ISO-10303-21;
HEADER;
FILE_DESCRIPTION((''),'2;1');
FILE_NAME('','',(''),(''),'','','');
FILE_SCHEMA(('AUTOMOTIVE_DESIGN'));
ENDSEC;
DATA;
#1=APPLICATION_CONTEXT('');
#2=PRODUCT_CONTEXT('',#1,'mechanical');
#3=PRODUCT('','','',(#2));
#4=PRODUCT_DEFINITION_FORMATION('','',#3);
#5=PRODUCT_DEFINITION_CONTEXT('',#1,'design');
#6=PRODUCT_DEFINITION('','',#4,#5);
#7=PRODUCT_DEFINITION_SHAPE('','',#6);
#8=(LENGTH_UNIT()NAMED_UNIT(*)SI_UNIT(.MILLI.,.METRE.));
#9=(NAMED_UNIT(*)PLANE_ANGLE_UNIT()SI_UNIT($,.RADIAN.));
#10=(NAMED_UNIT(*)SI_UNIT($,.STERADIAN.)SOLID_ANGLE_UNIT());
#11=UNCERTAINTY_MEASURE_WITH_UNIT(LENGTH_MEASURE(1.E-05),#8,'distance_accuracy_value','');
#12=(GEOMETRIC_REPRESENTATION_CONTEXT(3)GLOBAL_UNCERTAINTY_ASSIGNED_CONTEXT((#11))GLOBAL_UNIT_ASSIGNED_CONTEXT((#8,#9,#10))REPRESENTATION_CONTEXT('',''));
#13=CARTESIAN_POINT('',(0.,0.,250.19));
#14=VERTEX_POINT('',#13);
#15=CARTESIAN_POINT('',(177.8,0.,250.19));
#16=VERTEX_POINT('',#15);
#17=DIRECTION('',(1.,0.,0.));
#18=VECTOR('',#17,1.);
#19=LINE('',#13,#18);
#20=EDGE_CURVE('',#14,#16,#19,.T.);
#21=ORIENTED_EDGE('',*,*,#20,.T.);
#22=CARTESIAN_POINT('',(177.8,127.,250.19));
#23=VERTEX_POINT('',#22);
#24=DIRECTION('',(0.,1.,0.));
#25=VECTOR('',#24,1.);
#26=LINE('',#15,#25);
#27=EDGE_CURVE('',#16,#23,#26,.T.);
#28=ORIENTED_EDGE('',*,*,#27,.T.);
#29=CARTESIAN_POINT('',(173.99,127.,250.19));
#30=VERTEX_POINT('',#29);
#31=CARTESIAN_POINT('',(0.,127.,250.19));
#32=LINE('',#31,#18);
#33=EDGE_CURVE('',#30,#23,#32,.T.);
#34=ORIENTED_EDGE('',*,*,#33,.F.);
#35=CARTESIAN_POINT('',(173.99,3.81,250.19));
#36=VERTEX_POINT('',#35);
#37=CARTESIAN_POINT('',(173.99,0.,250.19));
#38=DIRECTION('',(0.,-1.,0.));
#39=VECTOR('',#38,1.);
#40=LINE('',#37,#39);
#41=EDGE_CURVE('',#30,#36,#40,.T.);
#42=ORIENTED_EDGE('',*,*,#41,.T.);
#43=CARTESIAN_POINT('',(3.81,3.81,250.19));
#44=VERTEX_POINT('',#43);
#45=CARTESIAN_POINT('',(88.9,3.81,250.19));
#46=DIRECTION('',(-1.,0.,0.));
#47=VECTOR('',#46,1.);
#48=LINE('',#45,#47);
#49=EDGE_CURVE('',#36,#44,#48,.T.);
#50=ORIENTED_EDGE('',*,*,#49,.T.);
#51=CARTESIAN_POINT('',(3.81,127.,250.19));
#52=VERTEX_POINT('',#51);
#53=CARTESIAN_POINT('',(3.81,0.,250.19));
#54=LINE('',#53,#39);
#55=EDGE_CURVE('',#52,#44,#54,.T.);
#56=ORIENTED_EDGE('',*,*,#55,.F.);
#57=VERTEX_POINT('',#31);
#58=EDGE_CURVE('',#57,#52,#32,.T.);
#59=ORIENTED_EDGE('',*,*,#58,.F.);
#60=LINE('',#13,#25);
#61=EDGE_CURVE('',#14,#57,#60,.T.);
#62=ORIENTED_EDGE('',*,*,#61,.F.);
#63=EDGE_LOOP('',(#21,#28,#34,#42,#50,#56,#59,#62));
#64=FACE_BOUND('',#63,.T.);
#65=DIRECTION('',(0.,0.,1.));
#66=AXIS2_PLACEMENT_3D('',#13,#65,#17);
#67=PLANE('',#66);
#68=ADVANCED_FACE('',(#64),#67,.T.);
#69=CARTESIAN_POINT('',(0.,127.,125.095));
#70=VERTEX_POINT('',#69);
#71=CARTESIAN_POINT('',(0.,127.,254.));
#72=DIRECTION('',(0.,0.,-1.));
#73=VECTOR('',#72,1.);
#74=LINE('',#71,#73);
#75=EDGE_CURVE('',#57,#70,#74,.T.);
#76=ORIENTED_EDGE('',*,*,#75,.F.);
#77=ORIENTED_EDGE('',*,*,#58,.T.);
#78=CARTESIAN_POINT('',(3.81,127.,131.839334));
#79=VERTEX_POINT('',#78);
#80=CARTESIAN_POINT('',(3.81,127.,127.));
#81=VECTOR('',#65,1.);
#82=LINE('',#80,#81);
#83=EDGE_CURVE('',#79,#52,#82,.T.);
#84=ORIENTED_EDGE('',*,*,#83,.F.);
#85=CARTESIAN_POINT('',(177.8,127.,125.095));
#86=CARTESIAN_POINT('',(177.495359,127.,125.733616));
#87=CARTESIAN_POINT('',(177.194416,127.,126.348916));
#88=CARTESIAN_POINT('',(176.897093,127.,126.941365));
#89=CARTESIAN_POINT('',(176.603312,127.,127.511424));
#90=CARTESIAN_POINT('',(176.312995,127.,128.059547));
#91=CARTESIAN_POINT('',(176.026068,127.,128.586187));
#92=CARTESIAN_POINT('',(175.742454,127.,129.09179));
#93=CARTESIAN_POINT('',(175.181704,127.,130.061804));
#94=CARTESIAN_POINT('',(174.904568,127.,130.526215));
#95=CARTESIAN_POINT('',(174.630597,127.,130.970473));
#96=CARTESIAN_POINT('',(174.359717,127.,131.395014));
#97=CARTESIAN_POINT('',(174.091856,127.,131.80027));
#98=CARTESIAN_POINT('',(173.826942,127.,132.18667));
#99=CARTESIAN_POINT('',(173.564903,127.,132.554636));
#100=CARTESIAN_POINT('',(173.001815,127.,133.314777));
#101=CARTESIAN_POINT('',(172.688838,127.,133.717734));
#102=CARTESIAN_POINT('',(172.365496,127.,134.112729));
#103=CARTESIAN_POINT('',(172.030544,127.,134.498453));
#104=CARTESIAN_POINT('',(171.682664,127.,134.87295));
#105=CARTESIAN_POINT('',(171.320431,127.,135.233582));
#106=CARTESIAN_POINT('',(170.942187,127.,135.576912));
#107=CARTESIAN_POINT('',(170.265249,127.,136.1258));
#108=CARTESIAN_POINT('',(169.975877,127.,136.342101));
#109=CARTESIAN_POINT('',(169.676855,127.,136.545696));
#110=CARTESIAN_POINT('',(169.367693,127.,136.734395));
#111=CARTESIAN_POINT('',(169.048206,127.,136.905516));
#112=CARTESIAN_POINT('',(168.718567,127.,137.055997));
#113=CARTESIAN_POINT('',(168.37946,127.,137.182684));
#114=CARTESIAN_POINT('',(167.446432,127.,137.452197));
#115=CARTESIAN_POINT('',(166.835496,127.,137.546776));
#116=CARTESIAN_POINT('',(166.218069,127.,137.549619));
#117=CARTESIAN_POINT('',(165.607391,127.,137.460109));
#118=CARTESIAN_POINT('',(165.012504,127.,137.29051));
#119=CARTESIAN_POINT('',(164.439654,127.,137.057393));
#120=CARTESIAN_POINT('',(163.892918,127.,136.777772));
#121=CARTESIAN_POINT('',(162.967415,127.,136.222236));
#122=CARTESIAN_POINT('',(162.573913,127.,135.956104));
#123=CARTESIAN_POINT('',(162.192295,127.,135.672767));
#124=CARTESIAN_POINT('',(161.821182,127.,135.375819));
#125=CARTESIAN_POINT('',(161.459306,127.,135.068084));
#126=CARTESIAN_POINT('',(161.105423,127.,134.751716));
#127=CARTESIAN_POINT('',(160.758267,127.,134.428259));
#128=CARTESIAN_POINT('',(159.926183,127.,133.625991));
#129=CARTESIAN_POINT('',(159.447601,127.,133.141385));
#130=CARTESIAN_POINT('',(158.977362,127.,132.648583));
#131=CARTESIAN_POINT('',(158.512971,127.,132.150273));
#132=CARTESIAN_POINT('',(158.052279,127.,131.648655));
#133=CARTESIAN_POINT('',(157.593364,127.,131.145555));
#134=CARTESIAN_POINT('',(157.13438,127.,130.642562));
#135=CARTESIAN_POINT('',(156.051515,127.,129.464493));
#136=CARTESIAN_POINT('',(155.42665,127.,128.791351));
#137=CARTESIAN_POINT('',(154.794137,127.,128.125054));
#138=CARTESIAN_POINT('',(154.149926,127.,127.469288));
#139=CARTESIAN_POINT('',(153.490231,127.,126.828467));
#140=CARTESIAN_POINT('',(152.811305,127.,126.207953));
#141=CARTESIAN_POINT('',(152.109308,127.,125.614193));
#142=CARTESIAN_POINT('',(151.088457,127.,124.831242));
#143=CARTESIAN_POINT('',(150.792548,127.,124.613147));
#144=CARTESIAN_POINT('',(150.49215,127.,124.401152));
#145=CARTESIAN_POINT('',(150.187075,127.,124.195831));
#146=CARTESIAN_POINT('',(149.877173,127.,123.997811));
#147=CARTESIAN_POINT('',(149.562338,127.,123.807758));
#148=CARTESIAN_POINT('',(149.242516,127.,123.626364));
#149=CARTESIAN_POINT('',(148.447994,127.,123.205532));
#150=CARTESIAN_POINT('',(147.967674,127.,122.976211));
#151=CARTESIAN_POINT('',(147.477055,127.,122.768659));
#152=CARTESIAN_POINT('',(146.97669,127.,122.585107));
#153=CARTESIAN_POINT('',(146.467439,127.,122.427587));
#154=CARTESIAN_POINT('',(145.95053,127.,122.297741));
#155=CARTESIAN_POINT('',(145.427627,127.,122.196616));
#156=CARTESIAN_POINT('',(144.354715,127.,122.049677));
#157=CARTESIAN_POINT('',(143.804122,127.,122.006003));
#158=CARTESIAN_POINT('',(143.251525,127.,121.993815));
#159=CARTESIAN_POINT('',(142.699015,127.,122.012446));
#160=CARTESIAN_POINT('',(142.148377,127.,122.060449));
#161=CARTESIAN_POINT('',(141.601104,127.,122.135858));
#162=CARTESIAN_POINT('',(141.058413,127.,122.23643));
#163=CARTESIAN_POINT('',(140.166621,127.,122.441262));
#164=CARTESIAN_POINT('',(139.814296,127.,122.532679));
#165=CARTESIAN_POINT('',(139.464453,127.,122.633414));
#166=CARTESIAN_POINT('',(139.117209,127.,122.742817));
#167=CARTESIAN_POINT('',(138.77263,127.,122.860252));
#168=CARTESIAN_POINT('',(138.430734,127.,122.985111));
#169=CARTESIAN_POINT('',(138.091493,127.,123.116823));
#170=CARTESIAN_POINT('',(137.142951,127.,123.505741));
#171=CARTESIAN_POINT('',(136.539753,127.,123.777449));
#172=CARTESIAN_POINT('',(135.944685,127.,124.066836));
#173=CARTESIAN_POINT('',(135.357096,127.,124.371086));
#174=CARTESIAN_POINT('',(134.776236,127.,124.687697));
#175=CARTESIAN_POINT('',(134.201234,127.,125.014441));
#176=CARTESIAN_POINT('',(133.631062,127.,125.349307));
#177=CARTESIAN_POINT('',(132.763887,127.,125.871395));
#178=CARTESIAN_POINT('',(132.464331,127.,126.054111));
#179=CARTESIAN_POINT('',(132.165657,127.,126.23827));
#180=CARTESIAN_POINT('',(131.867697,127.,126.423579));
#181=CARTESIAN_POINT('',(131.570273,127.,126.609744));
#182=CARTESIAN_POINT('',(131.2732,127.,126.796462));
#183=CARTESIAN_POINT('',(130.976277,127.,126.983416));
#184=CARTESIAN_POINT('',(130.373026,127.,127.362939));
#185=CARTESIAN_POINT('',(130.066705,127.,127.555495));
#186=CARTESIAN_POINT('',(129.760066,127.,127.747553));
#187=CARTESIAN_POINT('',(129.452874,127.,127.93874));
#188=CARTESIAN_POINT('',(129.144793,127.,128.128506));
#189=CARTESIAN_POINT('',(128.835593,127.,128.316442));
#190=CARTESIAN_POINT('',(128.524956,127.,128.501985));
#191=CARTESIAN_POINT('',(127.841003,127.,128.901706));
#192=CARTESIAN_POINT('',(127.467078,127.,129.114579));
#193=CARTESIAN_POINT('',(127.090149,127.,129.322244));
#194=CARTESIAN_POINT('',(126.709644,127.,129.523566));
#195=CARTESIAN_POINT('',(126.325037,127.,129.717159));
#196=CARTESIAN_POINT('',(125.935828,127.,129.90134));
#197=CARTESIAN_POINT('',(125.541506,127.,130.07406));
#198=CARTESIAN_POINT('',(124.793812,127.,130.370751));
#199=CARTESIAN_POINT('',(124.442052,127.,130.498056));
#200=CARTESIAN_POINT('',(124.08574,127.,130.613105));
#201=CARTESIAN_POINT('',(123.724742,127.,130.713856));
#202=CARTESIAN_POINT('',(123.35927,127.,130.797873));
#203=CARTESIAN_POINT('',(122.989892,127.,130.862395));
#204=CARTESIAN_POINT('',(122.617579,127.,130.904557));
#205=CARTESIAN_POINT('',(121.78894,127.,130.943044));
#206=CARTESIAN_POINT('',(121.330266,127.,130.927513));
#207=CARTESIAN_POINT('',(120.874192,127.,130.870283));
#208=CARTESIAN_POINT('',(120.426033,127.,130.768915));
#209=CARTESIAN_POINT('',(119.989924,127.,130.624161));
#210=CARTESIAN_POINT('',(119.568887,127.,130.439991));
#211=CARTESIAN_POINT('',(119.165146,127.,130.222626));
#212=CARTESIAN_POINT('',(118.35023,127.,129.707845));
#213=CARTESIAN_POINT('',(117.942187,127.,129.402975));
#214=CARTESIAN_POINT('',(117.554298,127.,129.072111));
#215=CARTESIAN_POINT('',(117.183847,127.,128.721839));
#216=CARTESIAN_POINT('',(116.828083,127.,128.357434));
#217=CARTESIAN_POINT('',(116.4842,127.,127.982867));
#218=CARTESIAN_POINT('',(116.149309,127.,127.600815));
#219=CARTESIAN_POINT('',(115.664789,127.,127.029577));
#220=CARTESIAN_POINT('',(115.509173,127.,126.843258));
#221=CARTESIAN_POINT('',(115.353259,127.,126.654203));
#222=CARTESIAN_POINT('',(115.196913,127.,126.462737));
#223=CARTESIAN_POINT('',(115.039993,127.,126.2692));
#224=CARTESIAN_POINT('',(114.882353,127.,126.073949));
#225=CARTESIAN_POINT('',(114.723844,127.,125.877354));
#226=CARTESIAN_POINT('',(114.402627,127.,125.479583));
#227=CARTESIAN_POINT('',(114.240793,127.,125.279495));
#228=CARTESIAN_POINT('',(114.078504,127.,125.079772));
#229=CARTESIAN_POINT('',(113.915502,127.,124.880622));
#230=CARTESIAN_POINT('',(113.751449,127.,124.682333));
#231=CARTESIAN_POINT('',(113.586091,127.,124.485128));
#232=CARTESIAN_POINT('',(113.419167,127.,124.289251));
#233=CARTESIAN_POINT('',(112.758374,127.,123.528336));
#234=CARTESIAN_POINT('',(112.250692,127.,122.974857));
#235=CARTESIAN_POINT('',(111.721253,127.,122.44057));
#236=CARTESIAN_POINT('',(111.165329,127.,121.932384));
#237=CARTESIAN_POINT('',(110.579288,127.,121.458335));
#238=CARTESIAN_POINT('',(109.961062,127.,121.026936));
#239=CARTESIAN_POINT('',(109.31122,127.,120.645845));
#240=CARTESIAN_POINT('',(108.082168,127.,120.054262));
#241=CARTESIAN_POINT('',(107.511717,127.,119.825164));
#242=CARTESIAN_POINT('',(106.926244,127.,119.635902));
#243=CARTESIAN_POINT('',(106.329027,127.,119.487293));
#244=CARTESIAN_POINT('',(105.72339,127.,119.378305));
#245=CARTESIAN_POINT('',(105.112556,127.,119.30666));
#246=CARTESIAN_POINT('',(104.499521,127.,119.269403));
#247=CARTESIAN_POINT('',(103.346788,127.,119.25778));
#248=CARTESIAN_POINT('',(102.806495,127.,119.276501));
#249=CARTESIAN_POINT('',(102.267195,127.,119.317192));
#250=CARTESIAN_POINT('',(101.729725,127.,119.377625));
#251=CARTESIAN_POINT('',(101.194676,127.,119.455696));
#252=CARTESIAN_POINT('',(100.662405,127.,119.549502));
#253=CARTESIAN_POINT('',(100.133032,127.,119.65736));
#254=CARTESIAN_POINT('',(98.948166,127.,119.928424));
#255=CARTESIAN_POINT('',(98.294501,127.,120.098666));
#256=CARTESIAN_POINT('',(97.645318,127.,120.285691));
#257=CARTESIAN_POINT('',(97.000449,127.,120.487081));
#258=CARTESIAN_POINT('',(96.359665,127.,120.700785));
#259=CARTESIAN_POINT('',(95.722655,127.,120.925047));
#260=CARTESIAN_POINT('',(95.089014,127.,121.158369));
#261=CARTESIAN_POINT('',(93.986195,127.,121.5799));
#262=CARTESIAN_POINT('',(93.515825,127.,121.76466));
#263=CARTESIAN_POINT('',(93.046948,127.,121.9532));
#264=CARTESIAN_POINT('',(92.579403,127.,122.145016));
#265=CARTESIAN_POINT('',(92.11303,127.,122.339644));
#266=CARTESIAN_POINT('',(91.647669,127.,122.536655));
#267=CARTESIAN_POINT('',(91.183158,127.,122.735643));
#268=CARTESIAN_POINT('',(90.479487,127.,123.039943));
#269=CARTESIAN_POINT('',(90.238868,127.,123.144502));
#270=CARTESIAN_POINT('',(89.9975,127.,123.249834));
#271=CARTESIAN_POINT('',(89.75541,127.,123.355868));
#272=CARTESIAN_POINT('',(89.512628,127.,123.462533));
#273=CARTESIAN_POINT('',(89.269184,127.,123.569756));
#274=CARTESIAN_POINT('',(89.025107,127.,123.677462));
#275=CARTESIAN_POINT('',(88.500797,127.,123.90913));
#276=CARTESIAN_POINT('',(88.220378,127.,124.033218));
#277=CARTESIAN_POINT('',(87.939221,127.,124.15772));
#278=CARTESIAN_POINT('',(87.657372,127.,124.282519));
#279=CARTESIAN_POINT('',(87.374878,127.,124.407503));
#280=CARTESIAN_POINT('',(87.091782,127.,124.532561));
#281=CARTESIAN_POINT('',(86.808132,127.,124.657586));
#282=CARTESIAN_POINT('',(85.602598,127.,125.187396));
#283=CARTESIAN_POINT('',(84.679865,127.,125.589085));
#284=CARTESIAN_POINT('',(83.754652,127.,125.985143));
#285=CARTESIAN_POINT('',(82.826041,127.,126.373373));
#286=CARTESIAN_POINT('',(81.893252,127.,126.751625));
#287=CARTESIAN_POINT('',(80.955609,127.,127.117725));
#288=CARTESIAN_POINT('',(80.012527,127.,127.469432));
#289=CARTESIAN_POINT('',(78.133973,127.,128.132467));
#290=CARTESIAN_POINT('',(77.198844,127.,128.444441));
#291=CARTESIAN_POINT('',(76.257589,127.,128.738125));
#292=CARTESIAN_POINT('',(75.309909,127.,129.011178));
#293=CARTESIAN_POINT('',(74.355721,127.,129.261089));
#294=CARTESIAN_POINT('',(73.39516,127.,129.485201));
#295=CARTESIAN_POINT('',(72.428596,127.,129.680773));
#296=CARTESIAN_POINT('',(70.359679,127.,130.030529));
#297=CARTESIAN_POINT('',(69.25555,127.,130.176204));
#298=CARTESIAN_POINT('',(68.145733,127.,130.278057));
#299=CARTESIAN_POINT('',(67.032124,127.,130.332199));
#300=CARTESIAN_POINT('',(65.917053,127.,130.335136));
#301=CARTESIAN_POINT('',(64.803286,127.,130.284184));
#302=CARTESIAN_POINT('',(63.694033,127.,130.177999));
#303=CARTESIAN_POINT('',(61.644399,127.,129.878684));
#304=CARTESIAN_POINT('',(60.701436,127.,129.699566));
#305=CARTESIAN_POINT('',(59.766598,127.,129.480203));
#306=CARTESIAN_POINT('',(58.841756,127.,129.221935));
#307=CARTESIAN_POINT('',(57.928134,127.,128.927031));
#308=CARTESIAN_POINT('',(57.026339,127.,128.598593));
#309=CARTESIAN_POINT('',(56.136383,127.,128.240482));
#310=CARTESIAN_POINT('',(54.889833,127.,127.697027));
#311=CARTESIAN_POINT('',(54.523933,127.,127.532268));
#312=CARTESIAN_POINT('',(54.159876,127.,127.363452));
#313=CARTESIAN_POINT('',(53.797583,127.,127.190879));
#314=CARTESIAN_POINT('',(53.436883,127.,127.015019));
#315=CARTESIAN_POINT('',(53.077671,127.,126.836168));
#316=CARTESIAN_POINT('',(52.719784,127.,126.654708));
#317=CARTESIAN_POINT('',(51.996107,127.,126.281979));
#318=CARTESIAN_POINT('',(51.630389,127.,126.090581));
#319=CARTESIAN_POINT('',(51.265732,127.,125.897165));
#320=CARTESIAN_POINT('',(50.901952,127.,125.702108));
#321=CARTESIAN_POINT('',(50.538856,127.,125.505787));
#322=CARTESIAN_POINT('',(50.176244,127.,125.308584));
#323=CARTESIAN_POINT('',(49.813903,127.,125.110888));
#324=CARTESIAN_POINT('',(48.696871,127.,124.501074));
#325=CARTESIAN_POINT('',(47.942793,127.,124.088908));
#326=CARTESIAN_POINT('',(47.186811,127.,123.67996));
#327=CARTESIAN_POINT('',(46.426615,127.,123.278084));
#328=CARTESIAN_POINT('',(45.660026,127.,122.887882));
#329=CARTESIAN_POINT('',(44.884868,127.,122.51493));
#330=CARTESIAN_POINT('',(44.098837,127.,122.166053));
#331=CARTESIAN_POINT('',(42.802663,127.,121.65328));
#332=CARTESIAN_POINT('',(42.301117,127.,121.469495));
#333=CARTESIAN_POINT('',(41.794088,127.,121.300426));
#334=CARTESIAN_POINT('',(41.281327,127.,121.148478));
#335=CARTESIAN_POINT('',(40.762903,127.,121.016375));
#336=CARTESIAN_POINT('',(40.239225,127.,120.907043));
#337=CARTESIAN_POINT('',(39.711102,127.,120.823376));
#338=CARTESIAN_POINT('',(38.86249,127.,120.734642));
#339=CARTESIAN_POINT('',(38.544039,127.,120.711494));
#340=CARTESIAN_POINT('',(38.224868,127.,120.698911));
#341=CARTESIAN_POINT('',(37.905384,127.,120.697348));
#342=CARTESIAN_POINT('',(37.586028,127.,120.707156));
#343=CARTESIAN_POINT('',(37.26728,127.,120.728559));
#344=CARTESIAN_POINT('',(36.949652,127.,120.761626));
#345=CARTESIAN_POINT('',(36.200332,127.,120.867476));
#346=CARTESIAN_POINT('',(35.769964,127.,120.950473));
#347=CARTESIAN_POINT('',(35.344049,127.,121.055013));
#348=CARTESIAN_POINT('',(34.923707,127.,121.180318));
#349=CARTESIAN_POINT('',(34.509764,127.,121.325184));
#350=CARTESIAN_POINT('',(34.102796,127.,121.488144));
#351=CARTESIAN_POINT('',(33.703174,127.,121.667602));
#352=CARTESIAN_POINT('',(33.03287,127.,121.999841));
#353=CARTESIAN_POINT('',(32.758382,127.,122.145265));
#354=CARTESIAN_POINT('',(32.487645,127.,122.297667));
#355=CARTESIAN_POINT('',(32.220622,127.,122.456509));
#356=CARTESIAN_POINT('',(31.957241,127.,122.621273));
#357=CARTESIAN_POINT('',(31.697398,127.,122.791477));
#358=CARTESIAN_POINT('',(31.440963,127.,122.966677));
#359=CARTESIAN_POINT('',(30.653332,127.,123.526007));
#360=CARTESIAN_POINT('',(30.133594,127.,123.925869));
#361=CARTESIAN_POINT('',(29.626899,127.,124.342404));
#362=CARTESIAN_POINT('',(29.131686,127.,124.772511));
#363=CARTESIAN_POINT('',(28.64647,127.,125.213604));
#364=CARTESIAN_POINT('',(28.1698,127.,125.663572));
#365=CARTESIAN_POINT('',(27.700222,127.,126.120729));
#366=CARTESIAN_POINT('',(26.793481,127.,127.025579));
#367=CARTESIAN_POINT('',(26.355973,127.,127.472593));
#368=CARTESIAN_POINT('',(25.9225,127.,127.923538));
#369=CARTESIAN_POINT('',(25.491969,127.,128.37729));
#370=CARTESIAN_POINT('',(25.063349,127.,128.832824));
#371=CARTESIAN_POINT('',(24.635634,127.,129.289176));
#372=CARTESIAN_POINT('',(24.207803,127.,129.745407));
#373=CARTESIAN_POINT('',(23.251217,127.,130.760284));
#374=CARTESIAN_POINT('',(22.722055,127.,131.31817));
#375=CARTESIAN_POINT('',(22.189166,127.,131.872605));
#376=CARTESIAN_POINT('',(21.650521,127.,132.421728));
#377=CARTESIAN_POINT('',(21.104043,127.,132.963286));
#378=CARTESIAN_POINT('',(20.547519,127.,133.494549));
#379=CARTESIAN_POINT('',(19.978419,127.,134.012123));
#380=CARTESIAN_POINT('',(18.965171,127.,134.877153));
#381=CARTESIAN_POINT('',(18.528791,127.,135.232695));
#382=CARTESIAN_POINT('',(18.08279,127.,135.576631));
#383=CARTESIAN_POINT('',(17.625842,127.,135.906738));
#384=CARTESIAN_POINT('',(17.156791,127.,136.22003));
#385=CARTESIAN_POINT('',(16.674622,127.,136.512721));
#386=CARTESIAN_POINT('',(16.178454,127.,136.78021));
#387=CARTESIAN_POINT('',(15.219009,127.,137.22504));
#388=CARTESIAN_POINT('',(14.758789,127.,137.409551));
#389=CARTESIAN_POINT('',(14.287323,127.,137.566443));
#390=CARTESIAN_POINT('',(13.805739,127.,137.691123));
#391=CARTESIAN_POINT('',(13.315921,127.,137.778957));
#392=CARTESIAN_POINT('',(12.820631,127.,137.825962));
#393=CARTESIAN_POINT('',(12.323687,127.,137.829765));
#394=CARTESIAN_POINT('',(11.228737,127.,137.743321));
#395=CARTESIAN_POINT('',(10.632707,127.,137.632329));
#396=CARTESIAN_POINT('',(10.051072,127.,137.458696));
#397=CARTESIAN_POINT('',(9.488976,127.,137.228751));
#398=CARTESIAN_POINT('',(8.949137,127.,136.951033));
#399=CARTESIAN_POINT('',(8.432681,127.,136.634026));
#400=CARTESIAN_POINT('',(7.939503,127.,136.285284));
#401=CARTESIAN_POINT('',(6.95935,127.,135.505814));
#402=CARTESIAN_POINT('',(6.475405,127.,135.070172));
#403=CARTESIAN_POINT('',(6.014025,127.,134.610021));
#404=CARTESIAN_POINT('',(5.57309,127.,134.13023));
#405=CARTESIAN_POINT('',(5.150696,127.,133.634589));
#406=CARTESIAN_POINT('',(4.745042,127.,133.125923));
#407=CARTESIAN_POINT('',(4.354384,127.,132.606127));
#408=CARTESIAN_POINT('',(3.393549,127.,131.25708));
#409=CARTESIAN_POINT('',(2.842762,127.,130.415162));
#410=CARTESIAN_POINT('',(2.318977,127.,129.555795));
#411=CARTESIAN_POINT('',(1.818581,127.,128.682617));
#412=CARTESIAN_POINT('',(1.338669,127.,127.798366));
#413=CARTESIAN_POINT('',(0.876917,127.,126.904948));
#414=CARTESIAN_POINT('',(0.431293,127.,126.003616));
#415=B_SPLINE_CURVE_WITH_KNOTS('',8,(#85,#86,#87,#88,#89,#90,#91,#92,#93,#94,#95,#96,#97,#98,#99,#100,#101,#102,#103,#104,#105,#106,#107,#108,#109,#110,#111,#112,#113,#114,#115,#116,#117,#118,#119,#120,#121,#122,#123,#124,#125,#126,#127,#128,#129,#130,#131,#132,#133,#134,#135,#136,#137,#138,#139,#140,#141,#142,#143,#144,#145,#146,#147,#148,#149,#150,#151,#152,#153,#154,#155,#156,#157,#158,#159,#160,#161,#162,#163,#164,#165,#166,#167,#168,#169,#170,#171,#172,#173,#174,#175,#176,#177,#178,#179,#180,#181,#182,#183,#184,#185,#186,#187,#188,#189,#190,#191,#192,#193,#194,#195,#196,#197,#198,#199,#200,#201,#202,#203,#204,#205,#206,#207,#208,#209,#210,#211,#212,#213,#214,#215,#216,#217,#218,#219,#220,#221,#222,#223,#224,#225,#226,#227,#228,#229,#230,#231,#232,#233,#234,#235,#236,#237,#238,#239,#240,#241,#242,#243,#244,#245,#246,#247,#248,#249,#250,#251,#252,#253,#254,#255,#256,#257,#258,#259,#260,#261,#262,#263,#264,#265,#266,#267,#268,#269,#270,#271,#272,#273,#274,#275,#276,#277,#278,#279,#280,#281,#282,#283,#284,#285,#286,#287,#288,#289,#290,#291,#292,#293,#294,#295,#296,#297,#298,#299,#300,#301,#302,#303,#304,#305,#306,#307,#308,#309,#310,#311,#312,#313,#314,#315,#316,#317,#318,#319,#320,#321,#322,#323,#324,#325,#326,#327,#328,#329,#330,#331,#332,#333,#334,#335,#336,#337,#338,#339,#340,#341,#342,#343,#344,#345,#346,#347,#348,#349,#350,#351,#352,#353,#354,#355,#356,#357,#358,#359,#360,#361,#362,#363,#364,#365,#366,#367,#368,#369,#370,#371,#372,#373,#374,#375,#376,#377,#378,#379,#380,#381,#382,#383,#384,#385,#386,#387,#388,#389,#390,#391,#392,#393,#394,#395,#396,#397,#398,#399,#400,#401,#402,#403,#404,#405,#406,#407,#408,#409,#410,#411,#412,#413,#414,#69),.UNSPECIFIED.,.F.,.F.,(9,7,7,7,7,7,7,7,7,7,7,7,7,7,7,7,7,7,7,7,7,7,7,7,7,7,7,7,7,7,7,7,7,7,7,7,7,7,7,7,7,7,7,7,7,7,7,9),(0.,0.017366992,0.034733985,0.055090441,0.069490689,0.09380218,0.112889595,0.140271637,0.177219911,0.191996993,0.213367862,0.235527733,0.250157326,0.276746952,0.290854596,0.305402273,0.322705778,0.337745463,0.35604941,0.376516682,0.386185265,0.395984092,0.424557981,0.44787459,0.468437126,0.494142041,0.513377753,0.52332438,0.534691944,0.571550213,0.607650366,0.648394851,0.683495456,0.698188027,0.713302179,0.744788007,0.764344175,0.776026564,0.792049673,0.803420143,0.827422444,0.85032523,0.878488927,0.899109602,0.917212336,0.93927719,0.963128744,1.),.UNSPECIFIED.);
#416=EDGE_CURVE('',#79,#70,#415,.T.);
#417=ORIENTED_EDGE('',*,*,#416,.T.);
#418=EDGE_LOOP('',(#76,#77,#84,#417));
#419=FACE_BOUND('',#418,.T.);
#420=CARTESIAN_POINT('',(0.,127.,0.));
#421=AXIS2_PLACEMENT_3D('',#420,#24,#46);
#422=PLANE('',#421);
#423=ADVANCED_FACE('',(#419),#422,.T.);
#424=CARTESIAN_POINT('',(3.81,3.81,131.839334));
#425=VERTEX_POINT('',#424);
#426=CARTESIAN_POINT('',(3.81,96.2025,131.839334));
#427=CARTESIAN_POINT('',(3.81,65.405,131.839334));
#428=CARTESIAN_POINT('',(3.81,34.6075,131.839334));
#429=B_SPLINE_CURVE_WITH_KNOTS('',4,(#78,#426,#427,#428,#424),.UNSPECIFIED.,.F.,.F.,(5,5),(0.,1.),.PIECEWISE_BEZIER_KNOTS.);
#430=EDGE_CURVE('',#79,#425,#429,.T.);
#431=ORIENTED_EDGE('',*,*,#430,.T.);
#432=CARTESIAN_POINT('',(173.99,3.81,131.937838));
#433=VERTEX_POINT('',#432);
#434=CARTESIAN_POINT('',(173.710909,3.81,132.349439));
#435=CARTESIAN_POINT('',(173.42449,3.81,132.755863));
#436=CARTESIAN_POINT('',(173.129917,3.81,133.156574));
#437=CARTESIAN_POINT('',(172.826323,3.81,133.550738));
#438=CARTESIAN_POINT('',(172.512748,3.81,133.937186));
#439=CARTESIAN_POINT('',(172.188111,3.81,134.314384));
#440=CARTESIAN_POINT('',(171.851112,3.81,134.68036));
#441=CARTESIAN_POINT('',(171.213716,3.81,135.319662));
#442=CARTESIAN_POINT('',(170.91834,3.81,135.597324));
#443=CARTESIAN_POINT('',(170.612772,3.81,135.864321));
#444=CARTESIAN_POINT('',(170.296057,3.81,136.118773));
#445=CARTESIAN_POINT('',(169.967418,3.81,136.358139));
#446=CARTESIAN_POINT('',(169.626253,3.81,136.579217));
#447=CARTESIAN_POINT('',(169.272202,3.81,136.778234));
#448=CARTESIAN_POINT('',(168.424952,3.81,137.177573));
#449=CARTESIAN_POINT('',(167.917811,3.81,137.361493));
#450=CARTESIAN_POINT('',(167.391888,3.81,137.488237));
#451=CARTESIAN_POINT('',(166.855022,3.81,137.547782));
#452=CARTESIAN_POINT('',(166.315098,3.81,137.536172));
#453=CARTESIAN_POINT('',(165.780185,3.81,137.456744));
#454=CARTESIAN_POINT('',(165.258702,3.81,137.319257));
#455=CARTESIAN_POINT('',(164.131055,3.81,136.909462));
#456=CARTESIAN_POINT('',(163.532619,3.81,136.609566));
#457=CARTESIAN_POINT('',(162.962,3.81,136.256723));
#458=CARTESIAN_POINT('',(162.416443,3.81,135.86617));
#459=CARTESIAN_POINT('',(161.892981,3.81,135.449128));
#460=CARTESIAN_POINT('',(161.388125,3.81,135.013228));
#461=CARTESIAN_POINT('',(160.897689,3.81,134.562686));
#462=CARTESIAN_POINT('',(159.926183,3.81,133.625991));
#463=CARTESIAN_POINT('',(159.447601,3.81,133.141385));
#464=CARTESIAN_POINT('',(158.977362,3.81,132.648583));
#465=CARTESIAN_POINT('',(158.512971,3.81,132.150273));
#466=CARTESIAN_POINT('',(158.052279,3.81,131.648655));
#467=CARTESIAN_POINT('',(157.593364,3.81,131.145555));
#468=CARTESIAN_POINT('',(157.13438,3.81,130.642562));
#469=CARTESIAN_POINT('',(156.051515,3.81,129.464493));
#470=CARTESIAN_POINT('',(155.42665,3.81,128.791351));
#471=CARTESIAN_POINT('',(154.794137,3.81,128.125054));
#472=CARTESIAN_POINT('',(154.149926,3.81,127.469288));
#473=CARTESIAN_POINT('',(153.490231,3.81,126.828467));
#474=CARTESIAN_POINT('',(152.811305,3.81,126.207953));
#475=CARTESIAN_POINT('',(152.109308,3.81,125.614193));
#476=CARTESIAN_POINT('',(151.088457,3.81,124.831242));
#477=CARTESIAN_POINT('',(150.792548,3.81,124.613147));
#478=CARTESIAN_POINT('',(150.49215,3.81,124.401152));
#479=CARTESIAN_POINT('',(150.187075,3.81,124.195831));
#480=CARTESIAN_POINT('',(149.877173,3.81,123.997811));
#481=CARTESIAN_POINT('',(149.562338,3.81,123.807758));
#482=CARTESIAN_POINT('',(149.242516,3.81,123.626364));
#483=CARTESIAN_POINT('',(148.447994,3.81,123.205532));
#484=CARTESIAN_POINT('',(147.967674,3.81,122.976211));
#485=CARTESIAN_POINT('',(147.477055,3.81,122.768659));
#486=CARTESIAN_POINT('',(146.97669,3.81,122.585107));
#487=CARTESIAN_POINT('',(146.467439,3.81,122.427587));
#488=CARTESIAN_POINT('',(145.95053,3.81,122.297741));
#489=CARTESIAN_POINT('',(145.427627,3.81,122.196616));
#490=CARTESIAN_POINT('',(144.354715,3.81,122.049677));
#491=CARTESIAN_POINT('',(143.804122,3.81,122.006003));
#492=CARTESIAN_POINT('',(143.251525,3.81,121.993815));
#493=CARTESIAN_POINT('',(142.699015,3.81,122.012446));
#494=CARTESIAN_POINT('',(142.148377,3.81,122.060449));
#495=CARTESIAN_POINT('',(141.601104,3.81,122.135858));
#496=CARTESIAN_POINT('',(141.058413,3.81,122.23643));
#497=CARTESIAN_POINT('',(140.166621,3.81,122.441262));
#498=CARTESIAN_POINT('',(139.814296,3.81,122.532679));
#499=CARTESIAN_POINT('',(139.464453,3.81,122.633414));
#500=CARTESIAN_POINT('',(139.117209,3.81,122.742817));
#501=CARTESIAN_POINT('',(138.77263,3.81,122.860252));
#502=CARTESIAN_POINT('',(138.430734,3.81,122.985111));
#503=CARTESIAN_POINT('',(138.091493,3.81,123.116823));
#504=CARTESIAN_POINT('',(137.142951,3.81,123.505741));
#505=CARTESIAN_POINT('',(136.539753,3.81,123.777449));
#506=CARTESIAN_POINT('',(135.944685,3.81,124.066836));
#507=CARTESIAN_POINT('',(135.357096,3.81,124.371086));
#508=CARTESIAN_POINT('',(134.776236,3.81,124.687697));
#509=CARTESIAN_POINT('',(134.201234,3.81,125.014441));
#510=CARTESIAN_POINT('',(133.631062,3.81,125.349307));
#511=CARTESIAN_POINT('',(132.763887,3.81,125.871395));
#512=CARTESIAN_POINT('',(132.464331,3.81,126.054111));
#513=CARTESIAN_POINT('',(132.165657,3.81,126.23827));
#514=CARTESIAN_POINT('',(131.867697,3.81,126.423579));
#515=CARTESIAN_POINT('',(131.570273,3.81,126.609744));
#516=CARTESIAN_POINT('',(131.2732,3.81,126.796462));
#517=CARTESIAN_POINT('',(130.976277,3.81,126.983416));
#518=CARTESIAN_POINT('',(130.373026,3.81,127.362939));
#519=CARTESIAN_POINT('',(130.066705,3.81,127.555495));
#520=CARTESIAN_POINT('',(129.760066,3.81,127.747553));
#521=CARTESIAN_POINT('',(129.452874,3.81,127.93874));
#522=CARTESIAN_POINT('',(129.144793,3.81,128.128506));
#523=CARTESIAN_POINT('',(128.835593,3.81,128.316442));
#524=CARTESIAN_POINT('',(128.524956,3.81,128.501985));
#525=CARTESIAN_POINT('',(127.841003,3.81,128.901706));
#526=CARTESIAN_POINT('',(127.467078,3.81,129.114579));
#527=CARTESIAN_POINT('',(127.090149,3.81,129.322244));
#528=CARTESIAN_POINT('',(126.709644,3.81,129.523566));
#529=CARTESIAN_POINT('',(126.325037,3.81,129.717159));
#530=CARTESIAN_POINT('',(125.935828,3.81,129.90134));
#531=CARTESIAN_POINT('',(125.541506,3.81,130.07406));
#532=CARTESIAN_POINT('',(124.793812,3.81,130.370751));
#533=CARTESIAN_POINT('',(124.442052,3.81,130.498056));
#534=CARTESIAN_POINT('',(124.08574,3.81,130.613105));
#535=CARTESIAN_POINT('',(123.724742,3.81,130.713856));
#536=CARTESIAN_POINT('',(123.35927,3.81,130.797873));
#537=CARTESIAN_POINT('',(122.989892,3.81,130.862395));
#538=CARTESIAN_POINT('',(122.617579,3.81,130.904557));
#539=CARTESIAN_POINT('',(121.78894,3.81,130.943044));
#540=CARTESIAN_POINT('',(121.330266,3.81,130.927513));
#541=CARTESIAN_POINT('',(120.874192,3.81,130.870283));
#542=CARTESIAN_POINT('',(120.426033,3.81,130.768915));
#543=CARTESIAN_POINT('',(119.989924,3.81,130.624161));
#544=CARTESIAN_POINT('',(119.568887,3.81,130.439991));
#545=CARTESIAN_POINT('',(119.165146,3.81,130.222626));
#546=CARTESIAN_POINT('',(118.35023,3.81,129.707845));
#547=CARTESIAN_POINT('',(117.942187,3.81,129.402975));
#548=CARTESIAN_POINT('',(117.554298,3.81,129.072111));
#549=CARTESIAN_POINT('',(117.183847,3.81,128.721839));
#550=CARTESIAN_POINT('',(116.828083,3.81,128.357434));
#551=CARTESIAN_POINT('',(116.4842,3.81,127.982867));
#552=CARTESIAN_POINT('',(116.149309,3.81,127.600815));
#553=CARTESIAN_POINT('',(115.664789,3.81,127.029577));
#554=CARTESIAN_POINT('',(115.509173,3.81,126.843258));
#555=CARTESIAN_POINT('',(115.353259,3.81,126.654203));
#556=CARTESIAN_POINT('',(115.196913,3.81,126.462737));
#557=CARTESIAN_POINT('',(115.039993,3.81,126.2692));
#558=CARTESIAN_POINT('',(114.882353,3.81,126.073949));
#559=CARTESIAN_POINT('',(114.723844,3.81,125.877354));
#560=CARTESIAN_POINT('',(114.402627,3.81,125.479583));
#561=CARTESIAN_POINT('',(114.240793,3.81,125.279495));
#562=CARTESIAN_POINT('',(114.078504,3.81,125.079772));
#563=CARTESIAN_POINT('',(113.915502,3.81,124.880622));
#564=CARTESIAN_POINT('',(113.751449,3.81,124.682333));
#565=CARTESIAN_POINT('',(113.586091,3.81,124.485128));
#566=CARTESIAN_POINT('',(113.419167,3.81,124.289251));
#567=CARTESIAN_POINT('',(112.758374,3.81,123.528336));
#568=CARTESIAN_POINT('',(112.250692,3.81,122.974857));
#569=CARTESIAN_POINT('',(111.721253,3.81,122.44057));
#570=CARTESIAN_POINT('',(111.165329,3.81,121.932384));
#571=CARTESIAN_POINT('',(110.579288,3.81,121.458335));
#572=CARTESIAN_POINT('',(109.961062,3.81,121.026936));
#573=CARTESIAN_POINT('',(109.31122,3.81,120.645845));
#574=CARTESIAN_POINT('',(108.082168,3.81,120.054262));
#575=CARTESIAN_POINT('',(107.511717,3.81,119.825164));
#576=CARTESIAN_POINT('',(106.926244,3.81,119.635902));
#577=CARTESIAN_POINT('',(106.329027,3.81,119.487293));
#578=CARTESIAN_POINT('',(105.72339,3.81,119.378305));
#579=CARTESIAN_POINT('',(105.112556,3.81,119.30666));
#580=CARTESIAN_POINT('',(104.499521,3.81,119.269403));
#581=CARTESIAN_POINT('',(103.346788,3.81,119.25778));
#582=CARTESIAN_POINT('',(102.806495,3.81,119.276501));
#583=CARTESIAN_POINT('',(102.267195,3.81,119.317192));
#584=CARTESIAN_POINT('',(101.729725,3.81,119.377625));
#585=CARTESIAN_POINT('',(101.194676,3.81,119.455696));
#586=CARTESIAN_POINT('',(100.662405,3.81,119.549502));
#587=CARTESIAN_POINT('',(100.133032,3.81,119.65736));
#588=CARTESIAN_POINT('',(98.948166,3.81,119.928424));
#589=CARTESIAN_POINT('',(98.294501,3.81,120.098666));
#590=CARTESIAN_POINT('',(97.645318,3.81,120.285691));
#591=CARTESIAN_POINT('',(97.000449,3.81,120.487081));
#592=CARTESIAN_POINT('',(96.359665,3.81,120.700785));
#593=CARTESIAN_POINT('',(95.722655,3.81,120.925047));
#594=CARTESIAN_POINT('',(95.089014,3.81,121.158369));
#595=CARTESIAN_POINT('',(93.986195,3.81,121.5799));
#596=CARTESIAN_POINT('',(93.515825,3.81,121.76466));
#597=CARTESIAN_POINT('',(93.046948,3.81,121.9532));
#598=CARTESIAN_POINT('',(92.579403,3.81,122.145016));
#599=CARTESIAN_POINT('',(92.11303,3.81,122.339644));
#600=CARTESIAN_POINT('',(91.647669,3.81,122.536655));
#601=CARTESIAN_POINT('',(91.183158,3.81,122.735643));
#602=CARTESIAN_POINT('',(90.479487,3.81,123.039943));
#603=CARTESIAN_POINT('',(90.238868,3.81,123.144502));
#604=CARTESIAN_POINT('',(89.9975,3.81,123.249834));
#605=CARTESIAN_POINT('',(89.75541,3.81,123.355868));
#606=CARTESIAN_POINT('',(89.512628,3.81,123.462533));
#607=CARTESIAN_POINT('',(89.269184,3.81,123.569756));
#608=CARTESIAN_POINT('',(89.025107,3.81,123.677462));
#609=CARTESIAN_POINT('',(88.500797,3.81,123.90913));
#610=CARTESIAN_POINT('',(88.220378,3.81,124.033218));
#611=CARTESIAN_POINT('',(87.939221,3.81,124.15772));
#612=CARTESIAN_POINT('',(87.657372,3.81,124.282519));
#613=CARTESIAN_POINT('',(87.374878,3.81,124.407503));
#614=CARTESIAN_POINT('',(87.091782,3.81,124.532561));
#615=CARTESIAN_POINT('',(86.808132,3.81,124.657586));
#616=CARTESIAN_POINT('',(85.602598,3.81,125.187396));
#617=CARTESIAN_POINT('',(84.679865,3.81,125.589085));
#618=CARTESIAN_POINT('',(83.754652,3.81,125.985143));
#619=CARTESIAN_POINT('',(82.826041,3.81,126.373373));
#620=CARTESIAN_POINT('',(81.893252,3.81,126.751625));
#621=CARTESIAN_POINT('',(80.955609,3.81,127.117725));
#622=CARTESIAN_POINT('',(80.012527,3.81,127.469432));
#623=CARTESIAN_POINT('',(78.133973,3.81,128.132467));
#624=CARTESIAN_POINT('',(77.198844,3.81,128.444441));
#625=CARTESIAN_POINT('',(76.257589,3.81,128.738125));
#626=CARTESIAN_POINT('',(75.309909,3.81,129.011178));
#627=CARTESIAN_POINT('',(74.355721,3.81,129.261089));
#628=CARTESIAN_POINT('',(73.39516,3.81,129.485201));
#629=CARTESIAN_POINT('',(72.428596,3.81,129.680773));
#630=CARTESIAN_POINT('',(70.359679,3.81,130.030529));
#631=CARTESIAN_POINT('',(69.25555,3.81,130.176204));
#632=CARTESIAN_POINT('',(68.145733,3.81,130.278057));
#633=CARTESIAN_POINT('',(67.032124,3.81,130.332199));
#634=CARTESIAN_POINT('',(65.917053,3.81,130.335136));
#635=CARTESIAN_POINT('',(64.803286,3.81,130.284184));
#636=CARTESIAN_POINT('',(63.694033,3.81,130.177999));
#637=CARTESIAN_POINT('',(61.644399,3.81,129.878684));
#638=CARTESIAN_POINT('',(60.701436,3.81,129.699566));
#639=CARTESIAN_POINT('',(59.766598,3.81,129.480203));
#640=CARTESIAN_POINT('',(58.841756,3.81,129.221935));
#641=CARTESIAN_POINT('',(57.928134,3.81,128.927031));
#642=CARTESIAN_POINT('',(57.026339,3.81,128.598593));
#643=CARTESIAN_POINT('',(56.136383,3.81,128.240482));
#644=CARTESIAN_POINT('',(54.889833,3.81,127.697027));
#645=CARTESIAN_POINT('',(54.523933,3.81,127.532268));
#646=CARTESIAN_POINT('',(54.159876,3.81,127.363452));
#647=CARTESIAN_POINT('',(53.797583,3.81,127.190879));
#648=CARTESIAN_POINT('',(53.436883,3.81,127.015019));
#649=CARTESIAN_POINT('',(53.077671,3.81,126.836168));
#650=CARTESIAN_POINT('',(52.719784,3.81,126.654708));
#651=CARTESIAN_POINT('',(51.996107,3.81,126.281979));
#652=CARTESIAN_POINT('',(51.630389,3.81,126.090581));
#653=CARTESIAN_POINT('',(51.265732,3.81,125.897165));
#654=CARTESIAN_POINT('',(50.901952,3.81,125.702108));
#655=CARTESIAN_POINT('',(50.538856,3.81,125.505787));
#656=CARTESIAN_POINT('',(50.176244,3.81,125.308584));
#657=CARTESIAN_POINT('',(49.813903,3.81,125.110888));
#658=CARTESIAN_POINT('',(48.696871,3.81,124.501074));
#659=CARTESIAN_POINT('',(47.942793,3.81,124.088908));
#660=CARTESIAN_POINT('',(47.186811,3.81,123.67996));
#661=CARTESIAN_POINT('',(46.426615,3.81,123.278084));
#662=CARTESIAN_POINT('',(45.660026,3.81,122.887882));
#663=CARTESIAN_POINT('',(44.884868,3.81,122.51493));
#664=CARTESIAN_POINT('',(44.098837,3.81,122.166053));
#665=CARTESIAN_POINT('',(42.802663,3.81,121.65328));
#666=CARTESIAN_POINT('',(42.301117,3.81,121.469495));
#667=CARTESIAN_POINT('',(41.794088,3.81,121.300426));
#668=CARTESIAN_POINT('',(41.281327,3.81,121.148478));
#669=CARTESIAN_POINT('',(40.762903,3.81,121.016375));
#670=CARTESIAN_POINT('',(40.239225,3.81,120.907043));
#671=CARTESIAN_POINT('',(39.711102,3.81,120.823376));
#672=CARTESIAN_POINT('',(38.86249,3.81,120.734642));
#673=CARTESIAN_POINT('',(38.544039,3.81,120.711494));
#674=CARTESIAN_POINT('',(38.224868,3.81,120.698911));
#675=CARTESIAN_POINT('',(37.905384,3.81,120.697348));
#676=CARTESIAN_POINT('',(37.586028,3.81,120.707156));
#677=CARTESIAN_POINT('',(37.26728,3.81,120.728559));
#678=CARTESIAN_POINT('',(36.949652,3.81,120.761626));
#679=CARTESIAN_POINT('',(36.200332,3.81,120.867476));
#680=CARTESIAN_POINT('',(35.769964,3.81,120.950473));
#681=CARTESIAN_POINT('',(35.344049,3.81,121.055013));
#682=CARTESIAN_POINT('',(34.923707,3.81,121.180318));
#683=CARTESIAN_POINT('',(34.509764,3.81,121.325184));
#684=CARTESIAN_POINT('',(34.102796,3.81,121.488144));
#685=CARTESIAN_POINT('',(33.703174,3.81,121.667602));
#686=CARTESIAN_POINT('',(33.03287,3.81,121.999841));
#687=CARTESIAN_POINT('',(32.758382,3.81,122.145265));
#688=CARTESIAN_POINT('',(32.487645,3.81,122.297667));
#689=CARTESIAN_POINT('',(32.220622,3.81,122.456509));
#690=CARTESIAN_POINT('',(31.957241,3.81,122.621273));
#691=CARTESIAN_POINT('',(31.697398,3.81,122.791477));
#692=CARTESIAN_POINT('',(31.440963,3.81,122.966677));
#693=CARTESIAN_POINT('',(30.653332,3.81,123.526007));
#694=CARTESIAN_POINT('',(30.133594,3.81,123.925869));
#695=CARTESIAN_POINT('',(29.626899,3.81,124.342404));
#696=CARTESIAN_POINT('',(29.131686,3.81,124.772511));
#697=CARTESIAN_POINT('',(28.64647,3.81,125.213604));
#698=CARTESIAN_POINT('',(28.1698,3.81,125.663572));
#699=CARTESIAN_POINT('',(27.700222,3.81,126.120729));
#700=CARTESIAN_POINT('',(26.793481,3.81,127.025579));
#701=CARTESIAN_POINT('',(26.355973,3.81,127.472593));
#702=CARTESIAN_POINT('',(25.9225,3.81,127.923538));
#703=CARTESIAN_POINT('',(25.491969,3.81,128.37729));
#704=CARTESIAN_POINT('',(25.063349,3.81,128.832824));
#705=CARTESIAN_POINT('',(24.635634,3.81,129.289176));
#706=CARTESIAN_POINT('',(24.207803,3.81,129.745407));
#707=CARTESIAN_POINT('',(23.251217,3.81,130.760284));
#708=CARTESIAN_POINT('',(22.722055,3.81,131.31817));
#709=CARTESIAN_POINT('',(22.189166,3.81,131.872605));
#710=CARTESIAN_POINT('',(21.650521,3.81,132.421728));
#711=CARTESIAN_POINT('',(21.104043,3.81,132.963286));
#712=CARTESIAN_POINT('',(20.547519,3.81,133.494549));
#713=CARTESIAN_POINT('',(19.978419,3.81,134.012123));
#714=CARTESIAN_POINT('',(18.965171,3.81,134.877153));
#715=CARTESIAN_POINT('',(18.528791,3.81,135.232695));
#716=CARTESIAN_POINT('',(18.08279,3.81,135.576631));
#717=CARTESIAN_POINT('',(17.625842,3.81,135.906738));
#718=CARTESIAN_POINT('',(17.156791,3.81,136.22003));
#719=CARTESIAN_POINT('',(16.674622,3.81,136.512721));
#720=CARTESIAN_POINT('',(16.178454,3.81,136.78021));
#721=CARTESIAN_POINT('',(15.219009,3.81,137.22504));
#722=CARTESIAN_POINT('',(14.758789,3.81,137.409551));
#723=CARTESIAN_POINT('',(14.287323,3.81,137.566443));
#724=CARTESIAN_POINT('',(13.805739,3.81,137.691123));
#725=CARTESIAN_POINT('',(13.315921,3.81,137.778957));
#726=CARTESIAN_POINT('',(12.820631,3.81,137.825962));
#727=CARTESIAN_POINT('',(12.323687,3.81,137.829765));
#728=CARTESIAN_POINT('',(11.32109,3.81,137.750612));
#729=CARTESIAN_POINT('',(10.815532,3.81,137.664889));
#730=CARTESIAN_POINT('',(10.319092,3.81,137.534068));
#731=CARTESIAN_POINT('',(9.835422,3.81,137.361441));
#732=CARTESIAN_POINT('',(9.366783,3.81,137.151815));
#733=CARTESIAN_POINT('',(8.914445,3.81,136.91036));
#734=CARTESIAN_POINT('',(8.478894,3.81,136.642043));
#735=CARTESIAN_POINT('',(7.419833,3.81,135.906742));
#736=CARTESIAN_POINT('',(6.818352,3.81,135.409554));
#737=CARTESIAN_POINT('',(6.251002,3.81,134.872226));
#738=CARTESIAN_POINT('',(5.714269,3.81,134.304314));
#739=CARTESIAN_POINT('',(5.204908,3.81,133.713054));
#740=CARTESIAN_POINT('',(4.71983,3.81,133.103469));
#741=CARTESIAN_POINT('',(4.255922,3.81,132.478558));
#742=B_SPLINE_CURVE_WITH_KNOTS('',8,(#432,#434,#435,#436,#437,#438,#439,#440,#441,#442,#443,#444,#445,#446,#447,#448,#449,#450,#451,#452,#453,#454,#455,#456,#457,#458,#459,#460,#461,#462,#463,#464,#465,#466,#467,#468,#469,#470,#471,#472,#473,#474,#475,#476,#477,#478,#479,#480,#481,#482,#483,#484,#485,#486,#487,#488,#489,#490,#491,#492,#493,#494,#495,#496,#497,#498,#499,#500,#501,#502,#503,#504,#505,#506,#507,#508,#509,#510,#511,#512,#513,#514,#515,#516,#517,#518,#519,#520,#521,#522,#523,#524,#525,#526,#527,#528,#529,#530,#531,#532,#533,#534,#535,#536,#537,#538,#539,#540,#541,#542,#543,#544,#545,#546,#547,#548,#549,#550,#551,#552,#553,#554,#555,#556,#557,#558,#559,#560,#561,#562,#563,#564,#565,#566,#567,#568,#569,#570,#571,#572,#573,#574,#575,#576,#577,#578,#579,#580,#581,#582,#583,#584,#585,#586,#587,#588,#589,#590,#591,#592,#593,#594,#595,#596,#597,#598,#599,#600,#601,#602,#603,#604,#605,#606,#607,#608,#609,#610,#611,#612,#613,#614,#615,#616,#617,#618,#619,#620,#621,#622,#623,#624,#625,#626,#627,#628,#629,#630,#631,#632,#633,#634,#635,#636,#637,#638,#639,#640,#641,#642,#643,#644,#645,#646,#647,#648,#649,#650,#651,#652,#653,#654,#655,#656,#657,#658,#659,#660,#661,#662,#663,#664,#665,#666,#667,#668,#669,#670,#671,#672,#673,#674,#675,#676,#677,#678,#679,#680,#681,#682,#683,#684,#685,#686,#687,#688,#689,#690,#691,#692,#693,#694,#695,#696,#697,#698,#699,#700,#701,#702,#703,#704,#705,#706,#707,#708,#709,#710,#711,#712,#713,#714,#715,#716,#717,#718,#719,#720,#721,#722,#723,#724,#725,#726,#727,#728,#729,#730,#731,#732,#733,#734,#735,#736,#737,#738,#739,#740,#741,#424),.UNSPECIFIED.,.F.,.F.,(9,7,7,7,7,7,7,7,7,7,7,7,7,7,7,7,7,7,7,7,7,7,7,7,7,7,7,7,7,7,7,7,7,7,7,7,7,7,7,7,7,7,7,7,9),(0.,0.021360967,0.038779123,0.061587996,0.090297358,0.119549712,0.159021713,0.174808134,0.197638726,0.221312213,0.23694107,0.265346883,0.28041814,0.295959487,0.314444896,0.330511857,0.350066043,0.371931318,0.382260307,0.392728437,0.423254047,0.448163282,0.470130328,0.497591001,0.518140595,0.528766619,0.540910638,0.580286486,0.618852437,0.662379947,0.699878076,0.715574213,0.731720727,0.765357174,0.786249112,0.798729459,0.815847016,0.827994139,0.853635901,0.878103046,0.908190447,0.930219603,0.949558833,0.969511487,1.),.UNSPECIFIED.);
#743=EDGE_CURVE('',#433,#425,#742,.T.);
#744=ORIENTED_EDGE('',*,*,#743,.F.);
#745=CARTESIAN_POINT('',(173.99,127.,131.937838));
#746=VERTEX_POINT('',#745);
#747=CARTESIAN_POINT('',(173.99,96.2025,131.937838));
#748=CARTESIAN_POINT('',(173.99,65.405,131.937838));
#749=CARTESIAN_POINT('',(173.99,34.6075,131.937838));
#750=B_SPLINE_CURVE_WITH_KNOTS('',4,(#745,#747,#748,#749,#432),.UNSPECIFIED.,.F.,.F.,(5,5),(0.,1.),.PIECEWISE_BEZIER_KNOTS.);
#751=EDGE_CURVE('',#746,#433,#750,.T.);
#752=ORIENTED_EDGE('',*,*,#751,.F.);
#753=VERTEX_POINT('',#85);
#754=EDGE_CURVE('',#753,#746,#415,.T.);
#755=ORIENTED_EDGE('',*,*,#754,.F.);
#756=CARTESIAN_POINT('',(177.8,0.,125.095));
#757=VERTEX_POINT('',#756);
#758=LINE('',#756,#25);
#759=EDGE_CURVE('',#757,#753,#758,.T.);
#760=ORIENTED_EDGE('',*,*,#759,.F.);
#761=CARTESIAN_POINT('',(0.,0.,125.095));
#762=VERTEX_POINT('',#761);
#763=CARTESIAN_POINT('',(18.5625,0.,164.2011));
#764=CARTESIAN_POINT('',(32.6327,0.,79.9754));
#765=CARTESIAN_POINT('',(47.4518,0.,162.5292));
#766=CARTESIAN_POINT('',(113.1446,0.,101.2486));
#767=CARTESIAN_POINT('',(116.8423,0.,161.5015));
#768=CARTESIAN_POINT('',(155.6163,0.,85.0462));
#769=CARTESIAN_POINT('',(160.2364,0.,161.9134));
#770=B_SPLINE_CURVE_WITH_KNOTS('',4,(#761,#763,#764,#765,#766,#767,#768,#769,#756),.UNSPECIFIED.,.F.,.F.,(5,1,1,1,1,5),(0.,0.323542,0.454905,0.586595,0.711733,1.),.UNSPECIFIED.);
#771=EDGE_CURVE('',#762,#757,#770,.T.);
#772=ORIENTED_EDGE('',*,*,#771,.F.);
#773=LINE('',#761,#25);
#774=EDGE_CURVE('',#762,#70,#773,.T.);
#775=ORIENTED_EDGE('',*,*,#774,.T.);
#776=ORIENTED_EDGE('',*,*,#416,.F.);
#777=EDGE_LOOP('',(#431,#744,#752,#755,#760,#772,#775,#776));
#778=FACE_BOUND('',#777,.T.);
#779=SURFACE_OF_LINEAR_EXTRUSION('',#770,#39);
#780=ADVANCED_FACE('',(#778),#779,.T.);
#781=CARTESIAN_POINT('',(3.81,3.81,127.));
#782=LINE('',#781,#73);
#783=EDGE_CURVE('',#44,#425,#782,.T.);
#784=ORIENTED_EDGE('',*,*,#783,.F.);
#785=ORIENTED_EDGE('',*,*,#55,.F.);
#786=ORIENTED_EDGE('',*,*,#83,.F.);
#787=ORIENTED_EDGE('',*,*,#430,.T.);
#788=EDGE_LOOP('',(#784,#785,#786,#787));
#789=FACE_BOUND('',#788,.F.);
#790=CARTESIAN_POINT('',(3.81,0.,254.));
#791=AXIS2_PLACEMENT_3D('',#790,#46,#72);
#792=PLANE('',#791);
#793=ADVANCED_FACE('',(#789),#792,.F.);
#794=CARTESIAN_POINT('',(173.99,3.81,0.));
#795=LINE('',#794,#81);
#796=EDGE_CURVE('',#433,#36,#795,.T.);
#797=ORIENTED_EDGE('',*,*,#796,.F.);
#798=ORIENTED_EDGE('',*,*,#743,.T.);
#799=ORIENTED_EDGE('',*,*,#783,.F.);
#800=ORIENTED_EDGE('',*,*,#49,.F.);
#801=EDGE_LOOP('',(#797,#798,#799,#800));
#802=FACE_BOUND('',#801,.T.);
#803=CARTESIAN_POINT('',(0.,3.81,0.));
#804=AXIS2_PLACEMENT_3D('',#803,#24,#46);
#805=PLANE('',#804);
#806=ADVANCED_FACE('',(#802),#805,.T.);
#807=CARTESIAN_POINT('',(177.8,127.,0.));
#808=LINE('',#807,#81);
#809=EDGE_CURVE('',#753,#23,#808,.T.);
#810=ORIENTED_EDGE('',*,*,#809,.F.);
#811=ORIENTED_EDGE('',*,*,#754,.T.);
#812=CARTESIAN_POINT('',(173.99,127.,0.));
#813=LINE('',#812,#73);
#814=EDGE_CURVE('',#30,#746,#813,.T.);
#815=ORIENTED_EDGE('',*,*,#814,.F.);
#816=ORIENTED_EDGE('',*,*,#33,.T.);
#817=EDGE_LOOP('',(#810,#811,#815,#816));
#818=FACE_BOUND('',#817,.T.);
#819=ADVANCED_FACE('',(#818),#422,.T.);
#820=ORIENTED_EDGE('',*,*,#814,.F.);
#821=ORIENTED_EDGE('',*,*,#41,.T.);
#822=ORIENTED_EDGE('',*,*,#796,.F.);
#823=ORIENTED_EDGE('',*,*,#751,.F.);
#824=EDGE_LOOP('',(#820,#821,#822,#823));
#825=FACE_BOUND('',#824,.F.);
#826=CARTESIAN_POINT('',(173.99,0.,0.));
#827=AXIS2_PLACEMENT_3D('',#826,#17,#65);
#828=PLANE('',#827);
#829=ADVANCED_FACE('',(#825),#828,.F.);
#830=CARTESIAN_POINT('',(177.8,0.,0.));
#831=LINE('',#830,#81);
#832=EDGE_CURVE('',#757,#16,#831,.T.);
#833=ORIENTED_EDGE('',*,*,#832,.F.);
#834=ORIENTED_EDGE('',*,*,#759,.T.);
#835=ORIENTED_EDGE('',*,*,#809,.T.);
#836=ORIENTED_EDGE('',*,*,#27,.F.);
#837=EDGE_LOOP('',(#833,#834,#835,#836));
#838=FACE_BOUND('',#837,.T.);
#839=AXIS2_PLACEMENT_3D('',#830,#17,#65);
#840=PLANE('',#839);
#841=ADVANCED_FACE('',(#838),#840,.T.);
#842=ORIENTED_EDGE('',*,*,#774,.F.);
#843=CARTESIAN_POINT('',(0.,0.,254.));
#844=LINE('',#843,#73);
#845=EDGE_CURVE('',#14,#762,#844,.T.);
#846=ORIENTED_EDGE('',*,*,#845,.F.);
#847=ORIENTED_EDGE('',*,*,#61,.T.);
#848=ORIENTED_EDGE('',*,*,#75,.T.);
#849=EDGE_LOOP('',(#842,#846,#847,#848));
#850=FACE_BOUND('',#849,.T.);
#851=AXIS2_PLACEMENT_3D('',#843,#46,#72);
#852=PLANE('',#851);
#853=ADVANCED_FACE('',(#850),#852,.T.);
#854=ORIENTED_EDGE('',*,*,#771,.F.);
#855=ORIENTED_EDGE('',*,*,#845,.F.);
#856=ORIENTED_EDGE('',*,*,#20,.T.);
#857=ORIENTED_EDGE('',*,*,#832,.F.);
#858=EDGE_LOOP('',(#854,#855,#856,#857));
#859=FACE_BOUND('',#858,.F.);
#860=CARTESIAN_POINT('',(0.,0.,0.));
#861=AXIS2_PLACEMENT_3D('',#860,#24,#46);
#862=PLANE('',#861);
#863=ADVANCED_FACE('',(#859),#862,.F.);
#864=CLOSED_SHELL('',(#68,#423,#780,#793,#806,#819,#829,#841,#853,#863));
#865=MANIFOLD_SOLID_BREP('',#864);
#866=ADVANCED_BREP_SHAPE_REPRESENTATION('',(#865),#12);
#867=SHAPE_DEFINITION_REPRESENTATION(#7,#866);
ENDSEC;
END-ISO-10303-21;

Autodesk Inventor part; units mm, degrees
ref_plane "YZ Plane" through (0, 0, 0) normal (1, 0, 0) x (0, 1, 0)
ref_plane "XZ Plane" through (0, 0, 0) normal (0, 1, 0) x (-1, 0, 0)
ref_plane "XY Plane" through (0, 0, 0) normal (0, 0, 1) x (1, 0, 0)
sketch "Sketch1" plane through (0, 0, 0) normal (0, 1, 0) x (-1, 0, 0)
  line L0 (0, 0) -> (-177.8, 0)
  line L1 (-177.8, 0) -> (-177.8, 254)
  line L2 (-177.8, 254) -> (0, 254)
  line L3 (0, 254) -> (0, 0)
  dimension "d0" = 177.8
  dimension "d1" = 254
extrude "Extrusion1" add sketch "Sketch1" along normal blind 127
shell "Shell1" thickness 3.81 removed faces 1 at (118.5333, 127, 169.3333)
sketch "Sketch2" plane through (0, 0, 254) normal (0, 0, 1) x (1, 0, 0)
  line L0 (0, 0) -> (177.8, 0) projected
  line L1 (177.8, 0) -> (177.8, 127) projected
  line L2 (0, 127) -> (177.8, 127) projected
  line L3 (0, 0) -> (0, 127) projected
extrude "Extrusion2" cut sketch "Sketch2" against normal up to surface (3.81 mm away)
sketch "Sketch3" plane through (3.81, 3.81, 3.81) normal (0, 0, 1) x (1, 0, 0)
  line L0 (170.18, 0) -> (0, 0) projected
  line L1 (170.18, 0) -> (170.18, 123.19) projected
  line L2 (0, 123.19) -> (170.18, 123.19) projected
  line L3 (0, 0) -> (0, 123.19) projected
  point P0 (-3.81, -3.81)
sketch "Sketch4" plane through (0, 0, 0) normal (0, -1, 0) x (1, 0, 0)
  line L0 (0, 0) -> (0, 250.19) projected
  line L1 (177.8, 250.19) -> (177.8, 0) projected
  line L2 (177.8, 250.19) -> (0, 250.19) projected
  line L3 (0, 0) -> (0, 250.19) projected
  line L4 (177.8, 0) -> (0, 0) projected
  line L5 (177.8, 250.19) -> (177.8, 0) projected
  line L6 (177.8, 250.19) -> (177.8, 0) projected
  spline S0 degree 4 poles (0, 125.095) (18.5625, 164.2011) (32.6327, 79.9754) (47.4518, 162.5292) (113.1446, 101.2486) (116.8423, 161.5015) (155.6163, 85.0462) (160.2364, 161.9134) (177.8, 125.095) knots 0 0 0 0 0 0.323542 0.454905 0.586595 0.711733 1 1 1 1 1
  point P0 (22.8108, 131.2197)
  point P1 (39.2238, 120.7725)
  point P2 (67.4765, 130.2672)
  point P3 (109.2766, 120.6567)
  point P4 (120.9714, 130.8461)
  point P5 (139.1504, 122.7409)
  point P6 (157.2136, 130.7303)
extrude "Extrusion3" cut sketch "Sketch4" against normal through all contours L0 S0 L1 L4
properties part number "Component box Bottom tall L"
